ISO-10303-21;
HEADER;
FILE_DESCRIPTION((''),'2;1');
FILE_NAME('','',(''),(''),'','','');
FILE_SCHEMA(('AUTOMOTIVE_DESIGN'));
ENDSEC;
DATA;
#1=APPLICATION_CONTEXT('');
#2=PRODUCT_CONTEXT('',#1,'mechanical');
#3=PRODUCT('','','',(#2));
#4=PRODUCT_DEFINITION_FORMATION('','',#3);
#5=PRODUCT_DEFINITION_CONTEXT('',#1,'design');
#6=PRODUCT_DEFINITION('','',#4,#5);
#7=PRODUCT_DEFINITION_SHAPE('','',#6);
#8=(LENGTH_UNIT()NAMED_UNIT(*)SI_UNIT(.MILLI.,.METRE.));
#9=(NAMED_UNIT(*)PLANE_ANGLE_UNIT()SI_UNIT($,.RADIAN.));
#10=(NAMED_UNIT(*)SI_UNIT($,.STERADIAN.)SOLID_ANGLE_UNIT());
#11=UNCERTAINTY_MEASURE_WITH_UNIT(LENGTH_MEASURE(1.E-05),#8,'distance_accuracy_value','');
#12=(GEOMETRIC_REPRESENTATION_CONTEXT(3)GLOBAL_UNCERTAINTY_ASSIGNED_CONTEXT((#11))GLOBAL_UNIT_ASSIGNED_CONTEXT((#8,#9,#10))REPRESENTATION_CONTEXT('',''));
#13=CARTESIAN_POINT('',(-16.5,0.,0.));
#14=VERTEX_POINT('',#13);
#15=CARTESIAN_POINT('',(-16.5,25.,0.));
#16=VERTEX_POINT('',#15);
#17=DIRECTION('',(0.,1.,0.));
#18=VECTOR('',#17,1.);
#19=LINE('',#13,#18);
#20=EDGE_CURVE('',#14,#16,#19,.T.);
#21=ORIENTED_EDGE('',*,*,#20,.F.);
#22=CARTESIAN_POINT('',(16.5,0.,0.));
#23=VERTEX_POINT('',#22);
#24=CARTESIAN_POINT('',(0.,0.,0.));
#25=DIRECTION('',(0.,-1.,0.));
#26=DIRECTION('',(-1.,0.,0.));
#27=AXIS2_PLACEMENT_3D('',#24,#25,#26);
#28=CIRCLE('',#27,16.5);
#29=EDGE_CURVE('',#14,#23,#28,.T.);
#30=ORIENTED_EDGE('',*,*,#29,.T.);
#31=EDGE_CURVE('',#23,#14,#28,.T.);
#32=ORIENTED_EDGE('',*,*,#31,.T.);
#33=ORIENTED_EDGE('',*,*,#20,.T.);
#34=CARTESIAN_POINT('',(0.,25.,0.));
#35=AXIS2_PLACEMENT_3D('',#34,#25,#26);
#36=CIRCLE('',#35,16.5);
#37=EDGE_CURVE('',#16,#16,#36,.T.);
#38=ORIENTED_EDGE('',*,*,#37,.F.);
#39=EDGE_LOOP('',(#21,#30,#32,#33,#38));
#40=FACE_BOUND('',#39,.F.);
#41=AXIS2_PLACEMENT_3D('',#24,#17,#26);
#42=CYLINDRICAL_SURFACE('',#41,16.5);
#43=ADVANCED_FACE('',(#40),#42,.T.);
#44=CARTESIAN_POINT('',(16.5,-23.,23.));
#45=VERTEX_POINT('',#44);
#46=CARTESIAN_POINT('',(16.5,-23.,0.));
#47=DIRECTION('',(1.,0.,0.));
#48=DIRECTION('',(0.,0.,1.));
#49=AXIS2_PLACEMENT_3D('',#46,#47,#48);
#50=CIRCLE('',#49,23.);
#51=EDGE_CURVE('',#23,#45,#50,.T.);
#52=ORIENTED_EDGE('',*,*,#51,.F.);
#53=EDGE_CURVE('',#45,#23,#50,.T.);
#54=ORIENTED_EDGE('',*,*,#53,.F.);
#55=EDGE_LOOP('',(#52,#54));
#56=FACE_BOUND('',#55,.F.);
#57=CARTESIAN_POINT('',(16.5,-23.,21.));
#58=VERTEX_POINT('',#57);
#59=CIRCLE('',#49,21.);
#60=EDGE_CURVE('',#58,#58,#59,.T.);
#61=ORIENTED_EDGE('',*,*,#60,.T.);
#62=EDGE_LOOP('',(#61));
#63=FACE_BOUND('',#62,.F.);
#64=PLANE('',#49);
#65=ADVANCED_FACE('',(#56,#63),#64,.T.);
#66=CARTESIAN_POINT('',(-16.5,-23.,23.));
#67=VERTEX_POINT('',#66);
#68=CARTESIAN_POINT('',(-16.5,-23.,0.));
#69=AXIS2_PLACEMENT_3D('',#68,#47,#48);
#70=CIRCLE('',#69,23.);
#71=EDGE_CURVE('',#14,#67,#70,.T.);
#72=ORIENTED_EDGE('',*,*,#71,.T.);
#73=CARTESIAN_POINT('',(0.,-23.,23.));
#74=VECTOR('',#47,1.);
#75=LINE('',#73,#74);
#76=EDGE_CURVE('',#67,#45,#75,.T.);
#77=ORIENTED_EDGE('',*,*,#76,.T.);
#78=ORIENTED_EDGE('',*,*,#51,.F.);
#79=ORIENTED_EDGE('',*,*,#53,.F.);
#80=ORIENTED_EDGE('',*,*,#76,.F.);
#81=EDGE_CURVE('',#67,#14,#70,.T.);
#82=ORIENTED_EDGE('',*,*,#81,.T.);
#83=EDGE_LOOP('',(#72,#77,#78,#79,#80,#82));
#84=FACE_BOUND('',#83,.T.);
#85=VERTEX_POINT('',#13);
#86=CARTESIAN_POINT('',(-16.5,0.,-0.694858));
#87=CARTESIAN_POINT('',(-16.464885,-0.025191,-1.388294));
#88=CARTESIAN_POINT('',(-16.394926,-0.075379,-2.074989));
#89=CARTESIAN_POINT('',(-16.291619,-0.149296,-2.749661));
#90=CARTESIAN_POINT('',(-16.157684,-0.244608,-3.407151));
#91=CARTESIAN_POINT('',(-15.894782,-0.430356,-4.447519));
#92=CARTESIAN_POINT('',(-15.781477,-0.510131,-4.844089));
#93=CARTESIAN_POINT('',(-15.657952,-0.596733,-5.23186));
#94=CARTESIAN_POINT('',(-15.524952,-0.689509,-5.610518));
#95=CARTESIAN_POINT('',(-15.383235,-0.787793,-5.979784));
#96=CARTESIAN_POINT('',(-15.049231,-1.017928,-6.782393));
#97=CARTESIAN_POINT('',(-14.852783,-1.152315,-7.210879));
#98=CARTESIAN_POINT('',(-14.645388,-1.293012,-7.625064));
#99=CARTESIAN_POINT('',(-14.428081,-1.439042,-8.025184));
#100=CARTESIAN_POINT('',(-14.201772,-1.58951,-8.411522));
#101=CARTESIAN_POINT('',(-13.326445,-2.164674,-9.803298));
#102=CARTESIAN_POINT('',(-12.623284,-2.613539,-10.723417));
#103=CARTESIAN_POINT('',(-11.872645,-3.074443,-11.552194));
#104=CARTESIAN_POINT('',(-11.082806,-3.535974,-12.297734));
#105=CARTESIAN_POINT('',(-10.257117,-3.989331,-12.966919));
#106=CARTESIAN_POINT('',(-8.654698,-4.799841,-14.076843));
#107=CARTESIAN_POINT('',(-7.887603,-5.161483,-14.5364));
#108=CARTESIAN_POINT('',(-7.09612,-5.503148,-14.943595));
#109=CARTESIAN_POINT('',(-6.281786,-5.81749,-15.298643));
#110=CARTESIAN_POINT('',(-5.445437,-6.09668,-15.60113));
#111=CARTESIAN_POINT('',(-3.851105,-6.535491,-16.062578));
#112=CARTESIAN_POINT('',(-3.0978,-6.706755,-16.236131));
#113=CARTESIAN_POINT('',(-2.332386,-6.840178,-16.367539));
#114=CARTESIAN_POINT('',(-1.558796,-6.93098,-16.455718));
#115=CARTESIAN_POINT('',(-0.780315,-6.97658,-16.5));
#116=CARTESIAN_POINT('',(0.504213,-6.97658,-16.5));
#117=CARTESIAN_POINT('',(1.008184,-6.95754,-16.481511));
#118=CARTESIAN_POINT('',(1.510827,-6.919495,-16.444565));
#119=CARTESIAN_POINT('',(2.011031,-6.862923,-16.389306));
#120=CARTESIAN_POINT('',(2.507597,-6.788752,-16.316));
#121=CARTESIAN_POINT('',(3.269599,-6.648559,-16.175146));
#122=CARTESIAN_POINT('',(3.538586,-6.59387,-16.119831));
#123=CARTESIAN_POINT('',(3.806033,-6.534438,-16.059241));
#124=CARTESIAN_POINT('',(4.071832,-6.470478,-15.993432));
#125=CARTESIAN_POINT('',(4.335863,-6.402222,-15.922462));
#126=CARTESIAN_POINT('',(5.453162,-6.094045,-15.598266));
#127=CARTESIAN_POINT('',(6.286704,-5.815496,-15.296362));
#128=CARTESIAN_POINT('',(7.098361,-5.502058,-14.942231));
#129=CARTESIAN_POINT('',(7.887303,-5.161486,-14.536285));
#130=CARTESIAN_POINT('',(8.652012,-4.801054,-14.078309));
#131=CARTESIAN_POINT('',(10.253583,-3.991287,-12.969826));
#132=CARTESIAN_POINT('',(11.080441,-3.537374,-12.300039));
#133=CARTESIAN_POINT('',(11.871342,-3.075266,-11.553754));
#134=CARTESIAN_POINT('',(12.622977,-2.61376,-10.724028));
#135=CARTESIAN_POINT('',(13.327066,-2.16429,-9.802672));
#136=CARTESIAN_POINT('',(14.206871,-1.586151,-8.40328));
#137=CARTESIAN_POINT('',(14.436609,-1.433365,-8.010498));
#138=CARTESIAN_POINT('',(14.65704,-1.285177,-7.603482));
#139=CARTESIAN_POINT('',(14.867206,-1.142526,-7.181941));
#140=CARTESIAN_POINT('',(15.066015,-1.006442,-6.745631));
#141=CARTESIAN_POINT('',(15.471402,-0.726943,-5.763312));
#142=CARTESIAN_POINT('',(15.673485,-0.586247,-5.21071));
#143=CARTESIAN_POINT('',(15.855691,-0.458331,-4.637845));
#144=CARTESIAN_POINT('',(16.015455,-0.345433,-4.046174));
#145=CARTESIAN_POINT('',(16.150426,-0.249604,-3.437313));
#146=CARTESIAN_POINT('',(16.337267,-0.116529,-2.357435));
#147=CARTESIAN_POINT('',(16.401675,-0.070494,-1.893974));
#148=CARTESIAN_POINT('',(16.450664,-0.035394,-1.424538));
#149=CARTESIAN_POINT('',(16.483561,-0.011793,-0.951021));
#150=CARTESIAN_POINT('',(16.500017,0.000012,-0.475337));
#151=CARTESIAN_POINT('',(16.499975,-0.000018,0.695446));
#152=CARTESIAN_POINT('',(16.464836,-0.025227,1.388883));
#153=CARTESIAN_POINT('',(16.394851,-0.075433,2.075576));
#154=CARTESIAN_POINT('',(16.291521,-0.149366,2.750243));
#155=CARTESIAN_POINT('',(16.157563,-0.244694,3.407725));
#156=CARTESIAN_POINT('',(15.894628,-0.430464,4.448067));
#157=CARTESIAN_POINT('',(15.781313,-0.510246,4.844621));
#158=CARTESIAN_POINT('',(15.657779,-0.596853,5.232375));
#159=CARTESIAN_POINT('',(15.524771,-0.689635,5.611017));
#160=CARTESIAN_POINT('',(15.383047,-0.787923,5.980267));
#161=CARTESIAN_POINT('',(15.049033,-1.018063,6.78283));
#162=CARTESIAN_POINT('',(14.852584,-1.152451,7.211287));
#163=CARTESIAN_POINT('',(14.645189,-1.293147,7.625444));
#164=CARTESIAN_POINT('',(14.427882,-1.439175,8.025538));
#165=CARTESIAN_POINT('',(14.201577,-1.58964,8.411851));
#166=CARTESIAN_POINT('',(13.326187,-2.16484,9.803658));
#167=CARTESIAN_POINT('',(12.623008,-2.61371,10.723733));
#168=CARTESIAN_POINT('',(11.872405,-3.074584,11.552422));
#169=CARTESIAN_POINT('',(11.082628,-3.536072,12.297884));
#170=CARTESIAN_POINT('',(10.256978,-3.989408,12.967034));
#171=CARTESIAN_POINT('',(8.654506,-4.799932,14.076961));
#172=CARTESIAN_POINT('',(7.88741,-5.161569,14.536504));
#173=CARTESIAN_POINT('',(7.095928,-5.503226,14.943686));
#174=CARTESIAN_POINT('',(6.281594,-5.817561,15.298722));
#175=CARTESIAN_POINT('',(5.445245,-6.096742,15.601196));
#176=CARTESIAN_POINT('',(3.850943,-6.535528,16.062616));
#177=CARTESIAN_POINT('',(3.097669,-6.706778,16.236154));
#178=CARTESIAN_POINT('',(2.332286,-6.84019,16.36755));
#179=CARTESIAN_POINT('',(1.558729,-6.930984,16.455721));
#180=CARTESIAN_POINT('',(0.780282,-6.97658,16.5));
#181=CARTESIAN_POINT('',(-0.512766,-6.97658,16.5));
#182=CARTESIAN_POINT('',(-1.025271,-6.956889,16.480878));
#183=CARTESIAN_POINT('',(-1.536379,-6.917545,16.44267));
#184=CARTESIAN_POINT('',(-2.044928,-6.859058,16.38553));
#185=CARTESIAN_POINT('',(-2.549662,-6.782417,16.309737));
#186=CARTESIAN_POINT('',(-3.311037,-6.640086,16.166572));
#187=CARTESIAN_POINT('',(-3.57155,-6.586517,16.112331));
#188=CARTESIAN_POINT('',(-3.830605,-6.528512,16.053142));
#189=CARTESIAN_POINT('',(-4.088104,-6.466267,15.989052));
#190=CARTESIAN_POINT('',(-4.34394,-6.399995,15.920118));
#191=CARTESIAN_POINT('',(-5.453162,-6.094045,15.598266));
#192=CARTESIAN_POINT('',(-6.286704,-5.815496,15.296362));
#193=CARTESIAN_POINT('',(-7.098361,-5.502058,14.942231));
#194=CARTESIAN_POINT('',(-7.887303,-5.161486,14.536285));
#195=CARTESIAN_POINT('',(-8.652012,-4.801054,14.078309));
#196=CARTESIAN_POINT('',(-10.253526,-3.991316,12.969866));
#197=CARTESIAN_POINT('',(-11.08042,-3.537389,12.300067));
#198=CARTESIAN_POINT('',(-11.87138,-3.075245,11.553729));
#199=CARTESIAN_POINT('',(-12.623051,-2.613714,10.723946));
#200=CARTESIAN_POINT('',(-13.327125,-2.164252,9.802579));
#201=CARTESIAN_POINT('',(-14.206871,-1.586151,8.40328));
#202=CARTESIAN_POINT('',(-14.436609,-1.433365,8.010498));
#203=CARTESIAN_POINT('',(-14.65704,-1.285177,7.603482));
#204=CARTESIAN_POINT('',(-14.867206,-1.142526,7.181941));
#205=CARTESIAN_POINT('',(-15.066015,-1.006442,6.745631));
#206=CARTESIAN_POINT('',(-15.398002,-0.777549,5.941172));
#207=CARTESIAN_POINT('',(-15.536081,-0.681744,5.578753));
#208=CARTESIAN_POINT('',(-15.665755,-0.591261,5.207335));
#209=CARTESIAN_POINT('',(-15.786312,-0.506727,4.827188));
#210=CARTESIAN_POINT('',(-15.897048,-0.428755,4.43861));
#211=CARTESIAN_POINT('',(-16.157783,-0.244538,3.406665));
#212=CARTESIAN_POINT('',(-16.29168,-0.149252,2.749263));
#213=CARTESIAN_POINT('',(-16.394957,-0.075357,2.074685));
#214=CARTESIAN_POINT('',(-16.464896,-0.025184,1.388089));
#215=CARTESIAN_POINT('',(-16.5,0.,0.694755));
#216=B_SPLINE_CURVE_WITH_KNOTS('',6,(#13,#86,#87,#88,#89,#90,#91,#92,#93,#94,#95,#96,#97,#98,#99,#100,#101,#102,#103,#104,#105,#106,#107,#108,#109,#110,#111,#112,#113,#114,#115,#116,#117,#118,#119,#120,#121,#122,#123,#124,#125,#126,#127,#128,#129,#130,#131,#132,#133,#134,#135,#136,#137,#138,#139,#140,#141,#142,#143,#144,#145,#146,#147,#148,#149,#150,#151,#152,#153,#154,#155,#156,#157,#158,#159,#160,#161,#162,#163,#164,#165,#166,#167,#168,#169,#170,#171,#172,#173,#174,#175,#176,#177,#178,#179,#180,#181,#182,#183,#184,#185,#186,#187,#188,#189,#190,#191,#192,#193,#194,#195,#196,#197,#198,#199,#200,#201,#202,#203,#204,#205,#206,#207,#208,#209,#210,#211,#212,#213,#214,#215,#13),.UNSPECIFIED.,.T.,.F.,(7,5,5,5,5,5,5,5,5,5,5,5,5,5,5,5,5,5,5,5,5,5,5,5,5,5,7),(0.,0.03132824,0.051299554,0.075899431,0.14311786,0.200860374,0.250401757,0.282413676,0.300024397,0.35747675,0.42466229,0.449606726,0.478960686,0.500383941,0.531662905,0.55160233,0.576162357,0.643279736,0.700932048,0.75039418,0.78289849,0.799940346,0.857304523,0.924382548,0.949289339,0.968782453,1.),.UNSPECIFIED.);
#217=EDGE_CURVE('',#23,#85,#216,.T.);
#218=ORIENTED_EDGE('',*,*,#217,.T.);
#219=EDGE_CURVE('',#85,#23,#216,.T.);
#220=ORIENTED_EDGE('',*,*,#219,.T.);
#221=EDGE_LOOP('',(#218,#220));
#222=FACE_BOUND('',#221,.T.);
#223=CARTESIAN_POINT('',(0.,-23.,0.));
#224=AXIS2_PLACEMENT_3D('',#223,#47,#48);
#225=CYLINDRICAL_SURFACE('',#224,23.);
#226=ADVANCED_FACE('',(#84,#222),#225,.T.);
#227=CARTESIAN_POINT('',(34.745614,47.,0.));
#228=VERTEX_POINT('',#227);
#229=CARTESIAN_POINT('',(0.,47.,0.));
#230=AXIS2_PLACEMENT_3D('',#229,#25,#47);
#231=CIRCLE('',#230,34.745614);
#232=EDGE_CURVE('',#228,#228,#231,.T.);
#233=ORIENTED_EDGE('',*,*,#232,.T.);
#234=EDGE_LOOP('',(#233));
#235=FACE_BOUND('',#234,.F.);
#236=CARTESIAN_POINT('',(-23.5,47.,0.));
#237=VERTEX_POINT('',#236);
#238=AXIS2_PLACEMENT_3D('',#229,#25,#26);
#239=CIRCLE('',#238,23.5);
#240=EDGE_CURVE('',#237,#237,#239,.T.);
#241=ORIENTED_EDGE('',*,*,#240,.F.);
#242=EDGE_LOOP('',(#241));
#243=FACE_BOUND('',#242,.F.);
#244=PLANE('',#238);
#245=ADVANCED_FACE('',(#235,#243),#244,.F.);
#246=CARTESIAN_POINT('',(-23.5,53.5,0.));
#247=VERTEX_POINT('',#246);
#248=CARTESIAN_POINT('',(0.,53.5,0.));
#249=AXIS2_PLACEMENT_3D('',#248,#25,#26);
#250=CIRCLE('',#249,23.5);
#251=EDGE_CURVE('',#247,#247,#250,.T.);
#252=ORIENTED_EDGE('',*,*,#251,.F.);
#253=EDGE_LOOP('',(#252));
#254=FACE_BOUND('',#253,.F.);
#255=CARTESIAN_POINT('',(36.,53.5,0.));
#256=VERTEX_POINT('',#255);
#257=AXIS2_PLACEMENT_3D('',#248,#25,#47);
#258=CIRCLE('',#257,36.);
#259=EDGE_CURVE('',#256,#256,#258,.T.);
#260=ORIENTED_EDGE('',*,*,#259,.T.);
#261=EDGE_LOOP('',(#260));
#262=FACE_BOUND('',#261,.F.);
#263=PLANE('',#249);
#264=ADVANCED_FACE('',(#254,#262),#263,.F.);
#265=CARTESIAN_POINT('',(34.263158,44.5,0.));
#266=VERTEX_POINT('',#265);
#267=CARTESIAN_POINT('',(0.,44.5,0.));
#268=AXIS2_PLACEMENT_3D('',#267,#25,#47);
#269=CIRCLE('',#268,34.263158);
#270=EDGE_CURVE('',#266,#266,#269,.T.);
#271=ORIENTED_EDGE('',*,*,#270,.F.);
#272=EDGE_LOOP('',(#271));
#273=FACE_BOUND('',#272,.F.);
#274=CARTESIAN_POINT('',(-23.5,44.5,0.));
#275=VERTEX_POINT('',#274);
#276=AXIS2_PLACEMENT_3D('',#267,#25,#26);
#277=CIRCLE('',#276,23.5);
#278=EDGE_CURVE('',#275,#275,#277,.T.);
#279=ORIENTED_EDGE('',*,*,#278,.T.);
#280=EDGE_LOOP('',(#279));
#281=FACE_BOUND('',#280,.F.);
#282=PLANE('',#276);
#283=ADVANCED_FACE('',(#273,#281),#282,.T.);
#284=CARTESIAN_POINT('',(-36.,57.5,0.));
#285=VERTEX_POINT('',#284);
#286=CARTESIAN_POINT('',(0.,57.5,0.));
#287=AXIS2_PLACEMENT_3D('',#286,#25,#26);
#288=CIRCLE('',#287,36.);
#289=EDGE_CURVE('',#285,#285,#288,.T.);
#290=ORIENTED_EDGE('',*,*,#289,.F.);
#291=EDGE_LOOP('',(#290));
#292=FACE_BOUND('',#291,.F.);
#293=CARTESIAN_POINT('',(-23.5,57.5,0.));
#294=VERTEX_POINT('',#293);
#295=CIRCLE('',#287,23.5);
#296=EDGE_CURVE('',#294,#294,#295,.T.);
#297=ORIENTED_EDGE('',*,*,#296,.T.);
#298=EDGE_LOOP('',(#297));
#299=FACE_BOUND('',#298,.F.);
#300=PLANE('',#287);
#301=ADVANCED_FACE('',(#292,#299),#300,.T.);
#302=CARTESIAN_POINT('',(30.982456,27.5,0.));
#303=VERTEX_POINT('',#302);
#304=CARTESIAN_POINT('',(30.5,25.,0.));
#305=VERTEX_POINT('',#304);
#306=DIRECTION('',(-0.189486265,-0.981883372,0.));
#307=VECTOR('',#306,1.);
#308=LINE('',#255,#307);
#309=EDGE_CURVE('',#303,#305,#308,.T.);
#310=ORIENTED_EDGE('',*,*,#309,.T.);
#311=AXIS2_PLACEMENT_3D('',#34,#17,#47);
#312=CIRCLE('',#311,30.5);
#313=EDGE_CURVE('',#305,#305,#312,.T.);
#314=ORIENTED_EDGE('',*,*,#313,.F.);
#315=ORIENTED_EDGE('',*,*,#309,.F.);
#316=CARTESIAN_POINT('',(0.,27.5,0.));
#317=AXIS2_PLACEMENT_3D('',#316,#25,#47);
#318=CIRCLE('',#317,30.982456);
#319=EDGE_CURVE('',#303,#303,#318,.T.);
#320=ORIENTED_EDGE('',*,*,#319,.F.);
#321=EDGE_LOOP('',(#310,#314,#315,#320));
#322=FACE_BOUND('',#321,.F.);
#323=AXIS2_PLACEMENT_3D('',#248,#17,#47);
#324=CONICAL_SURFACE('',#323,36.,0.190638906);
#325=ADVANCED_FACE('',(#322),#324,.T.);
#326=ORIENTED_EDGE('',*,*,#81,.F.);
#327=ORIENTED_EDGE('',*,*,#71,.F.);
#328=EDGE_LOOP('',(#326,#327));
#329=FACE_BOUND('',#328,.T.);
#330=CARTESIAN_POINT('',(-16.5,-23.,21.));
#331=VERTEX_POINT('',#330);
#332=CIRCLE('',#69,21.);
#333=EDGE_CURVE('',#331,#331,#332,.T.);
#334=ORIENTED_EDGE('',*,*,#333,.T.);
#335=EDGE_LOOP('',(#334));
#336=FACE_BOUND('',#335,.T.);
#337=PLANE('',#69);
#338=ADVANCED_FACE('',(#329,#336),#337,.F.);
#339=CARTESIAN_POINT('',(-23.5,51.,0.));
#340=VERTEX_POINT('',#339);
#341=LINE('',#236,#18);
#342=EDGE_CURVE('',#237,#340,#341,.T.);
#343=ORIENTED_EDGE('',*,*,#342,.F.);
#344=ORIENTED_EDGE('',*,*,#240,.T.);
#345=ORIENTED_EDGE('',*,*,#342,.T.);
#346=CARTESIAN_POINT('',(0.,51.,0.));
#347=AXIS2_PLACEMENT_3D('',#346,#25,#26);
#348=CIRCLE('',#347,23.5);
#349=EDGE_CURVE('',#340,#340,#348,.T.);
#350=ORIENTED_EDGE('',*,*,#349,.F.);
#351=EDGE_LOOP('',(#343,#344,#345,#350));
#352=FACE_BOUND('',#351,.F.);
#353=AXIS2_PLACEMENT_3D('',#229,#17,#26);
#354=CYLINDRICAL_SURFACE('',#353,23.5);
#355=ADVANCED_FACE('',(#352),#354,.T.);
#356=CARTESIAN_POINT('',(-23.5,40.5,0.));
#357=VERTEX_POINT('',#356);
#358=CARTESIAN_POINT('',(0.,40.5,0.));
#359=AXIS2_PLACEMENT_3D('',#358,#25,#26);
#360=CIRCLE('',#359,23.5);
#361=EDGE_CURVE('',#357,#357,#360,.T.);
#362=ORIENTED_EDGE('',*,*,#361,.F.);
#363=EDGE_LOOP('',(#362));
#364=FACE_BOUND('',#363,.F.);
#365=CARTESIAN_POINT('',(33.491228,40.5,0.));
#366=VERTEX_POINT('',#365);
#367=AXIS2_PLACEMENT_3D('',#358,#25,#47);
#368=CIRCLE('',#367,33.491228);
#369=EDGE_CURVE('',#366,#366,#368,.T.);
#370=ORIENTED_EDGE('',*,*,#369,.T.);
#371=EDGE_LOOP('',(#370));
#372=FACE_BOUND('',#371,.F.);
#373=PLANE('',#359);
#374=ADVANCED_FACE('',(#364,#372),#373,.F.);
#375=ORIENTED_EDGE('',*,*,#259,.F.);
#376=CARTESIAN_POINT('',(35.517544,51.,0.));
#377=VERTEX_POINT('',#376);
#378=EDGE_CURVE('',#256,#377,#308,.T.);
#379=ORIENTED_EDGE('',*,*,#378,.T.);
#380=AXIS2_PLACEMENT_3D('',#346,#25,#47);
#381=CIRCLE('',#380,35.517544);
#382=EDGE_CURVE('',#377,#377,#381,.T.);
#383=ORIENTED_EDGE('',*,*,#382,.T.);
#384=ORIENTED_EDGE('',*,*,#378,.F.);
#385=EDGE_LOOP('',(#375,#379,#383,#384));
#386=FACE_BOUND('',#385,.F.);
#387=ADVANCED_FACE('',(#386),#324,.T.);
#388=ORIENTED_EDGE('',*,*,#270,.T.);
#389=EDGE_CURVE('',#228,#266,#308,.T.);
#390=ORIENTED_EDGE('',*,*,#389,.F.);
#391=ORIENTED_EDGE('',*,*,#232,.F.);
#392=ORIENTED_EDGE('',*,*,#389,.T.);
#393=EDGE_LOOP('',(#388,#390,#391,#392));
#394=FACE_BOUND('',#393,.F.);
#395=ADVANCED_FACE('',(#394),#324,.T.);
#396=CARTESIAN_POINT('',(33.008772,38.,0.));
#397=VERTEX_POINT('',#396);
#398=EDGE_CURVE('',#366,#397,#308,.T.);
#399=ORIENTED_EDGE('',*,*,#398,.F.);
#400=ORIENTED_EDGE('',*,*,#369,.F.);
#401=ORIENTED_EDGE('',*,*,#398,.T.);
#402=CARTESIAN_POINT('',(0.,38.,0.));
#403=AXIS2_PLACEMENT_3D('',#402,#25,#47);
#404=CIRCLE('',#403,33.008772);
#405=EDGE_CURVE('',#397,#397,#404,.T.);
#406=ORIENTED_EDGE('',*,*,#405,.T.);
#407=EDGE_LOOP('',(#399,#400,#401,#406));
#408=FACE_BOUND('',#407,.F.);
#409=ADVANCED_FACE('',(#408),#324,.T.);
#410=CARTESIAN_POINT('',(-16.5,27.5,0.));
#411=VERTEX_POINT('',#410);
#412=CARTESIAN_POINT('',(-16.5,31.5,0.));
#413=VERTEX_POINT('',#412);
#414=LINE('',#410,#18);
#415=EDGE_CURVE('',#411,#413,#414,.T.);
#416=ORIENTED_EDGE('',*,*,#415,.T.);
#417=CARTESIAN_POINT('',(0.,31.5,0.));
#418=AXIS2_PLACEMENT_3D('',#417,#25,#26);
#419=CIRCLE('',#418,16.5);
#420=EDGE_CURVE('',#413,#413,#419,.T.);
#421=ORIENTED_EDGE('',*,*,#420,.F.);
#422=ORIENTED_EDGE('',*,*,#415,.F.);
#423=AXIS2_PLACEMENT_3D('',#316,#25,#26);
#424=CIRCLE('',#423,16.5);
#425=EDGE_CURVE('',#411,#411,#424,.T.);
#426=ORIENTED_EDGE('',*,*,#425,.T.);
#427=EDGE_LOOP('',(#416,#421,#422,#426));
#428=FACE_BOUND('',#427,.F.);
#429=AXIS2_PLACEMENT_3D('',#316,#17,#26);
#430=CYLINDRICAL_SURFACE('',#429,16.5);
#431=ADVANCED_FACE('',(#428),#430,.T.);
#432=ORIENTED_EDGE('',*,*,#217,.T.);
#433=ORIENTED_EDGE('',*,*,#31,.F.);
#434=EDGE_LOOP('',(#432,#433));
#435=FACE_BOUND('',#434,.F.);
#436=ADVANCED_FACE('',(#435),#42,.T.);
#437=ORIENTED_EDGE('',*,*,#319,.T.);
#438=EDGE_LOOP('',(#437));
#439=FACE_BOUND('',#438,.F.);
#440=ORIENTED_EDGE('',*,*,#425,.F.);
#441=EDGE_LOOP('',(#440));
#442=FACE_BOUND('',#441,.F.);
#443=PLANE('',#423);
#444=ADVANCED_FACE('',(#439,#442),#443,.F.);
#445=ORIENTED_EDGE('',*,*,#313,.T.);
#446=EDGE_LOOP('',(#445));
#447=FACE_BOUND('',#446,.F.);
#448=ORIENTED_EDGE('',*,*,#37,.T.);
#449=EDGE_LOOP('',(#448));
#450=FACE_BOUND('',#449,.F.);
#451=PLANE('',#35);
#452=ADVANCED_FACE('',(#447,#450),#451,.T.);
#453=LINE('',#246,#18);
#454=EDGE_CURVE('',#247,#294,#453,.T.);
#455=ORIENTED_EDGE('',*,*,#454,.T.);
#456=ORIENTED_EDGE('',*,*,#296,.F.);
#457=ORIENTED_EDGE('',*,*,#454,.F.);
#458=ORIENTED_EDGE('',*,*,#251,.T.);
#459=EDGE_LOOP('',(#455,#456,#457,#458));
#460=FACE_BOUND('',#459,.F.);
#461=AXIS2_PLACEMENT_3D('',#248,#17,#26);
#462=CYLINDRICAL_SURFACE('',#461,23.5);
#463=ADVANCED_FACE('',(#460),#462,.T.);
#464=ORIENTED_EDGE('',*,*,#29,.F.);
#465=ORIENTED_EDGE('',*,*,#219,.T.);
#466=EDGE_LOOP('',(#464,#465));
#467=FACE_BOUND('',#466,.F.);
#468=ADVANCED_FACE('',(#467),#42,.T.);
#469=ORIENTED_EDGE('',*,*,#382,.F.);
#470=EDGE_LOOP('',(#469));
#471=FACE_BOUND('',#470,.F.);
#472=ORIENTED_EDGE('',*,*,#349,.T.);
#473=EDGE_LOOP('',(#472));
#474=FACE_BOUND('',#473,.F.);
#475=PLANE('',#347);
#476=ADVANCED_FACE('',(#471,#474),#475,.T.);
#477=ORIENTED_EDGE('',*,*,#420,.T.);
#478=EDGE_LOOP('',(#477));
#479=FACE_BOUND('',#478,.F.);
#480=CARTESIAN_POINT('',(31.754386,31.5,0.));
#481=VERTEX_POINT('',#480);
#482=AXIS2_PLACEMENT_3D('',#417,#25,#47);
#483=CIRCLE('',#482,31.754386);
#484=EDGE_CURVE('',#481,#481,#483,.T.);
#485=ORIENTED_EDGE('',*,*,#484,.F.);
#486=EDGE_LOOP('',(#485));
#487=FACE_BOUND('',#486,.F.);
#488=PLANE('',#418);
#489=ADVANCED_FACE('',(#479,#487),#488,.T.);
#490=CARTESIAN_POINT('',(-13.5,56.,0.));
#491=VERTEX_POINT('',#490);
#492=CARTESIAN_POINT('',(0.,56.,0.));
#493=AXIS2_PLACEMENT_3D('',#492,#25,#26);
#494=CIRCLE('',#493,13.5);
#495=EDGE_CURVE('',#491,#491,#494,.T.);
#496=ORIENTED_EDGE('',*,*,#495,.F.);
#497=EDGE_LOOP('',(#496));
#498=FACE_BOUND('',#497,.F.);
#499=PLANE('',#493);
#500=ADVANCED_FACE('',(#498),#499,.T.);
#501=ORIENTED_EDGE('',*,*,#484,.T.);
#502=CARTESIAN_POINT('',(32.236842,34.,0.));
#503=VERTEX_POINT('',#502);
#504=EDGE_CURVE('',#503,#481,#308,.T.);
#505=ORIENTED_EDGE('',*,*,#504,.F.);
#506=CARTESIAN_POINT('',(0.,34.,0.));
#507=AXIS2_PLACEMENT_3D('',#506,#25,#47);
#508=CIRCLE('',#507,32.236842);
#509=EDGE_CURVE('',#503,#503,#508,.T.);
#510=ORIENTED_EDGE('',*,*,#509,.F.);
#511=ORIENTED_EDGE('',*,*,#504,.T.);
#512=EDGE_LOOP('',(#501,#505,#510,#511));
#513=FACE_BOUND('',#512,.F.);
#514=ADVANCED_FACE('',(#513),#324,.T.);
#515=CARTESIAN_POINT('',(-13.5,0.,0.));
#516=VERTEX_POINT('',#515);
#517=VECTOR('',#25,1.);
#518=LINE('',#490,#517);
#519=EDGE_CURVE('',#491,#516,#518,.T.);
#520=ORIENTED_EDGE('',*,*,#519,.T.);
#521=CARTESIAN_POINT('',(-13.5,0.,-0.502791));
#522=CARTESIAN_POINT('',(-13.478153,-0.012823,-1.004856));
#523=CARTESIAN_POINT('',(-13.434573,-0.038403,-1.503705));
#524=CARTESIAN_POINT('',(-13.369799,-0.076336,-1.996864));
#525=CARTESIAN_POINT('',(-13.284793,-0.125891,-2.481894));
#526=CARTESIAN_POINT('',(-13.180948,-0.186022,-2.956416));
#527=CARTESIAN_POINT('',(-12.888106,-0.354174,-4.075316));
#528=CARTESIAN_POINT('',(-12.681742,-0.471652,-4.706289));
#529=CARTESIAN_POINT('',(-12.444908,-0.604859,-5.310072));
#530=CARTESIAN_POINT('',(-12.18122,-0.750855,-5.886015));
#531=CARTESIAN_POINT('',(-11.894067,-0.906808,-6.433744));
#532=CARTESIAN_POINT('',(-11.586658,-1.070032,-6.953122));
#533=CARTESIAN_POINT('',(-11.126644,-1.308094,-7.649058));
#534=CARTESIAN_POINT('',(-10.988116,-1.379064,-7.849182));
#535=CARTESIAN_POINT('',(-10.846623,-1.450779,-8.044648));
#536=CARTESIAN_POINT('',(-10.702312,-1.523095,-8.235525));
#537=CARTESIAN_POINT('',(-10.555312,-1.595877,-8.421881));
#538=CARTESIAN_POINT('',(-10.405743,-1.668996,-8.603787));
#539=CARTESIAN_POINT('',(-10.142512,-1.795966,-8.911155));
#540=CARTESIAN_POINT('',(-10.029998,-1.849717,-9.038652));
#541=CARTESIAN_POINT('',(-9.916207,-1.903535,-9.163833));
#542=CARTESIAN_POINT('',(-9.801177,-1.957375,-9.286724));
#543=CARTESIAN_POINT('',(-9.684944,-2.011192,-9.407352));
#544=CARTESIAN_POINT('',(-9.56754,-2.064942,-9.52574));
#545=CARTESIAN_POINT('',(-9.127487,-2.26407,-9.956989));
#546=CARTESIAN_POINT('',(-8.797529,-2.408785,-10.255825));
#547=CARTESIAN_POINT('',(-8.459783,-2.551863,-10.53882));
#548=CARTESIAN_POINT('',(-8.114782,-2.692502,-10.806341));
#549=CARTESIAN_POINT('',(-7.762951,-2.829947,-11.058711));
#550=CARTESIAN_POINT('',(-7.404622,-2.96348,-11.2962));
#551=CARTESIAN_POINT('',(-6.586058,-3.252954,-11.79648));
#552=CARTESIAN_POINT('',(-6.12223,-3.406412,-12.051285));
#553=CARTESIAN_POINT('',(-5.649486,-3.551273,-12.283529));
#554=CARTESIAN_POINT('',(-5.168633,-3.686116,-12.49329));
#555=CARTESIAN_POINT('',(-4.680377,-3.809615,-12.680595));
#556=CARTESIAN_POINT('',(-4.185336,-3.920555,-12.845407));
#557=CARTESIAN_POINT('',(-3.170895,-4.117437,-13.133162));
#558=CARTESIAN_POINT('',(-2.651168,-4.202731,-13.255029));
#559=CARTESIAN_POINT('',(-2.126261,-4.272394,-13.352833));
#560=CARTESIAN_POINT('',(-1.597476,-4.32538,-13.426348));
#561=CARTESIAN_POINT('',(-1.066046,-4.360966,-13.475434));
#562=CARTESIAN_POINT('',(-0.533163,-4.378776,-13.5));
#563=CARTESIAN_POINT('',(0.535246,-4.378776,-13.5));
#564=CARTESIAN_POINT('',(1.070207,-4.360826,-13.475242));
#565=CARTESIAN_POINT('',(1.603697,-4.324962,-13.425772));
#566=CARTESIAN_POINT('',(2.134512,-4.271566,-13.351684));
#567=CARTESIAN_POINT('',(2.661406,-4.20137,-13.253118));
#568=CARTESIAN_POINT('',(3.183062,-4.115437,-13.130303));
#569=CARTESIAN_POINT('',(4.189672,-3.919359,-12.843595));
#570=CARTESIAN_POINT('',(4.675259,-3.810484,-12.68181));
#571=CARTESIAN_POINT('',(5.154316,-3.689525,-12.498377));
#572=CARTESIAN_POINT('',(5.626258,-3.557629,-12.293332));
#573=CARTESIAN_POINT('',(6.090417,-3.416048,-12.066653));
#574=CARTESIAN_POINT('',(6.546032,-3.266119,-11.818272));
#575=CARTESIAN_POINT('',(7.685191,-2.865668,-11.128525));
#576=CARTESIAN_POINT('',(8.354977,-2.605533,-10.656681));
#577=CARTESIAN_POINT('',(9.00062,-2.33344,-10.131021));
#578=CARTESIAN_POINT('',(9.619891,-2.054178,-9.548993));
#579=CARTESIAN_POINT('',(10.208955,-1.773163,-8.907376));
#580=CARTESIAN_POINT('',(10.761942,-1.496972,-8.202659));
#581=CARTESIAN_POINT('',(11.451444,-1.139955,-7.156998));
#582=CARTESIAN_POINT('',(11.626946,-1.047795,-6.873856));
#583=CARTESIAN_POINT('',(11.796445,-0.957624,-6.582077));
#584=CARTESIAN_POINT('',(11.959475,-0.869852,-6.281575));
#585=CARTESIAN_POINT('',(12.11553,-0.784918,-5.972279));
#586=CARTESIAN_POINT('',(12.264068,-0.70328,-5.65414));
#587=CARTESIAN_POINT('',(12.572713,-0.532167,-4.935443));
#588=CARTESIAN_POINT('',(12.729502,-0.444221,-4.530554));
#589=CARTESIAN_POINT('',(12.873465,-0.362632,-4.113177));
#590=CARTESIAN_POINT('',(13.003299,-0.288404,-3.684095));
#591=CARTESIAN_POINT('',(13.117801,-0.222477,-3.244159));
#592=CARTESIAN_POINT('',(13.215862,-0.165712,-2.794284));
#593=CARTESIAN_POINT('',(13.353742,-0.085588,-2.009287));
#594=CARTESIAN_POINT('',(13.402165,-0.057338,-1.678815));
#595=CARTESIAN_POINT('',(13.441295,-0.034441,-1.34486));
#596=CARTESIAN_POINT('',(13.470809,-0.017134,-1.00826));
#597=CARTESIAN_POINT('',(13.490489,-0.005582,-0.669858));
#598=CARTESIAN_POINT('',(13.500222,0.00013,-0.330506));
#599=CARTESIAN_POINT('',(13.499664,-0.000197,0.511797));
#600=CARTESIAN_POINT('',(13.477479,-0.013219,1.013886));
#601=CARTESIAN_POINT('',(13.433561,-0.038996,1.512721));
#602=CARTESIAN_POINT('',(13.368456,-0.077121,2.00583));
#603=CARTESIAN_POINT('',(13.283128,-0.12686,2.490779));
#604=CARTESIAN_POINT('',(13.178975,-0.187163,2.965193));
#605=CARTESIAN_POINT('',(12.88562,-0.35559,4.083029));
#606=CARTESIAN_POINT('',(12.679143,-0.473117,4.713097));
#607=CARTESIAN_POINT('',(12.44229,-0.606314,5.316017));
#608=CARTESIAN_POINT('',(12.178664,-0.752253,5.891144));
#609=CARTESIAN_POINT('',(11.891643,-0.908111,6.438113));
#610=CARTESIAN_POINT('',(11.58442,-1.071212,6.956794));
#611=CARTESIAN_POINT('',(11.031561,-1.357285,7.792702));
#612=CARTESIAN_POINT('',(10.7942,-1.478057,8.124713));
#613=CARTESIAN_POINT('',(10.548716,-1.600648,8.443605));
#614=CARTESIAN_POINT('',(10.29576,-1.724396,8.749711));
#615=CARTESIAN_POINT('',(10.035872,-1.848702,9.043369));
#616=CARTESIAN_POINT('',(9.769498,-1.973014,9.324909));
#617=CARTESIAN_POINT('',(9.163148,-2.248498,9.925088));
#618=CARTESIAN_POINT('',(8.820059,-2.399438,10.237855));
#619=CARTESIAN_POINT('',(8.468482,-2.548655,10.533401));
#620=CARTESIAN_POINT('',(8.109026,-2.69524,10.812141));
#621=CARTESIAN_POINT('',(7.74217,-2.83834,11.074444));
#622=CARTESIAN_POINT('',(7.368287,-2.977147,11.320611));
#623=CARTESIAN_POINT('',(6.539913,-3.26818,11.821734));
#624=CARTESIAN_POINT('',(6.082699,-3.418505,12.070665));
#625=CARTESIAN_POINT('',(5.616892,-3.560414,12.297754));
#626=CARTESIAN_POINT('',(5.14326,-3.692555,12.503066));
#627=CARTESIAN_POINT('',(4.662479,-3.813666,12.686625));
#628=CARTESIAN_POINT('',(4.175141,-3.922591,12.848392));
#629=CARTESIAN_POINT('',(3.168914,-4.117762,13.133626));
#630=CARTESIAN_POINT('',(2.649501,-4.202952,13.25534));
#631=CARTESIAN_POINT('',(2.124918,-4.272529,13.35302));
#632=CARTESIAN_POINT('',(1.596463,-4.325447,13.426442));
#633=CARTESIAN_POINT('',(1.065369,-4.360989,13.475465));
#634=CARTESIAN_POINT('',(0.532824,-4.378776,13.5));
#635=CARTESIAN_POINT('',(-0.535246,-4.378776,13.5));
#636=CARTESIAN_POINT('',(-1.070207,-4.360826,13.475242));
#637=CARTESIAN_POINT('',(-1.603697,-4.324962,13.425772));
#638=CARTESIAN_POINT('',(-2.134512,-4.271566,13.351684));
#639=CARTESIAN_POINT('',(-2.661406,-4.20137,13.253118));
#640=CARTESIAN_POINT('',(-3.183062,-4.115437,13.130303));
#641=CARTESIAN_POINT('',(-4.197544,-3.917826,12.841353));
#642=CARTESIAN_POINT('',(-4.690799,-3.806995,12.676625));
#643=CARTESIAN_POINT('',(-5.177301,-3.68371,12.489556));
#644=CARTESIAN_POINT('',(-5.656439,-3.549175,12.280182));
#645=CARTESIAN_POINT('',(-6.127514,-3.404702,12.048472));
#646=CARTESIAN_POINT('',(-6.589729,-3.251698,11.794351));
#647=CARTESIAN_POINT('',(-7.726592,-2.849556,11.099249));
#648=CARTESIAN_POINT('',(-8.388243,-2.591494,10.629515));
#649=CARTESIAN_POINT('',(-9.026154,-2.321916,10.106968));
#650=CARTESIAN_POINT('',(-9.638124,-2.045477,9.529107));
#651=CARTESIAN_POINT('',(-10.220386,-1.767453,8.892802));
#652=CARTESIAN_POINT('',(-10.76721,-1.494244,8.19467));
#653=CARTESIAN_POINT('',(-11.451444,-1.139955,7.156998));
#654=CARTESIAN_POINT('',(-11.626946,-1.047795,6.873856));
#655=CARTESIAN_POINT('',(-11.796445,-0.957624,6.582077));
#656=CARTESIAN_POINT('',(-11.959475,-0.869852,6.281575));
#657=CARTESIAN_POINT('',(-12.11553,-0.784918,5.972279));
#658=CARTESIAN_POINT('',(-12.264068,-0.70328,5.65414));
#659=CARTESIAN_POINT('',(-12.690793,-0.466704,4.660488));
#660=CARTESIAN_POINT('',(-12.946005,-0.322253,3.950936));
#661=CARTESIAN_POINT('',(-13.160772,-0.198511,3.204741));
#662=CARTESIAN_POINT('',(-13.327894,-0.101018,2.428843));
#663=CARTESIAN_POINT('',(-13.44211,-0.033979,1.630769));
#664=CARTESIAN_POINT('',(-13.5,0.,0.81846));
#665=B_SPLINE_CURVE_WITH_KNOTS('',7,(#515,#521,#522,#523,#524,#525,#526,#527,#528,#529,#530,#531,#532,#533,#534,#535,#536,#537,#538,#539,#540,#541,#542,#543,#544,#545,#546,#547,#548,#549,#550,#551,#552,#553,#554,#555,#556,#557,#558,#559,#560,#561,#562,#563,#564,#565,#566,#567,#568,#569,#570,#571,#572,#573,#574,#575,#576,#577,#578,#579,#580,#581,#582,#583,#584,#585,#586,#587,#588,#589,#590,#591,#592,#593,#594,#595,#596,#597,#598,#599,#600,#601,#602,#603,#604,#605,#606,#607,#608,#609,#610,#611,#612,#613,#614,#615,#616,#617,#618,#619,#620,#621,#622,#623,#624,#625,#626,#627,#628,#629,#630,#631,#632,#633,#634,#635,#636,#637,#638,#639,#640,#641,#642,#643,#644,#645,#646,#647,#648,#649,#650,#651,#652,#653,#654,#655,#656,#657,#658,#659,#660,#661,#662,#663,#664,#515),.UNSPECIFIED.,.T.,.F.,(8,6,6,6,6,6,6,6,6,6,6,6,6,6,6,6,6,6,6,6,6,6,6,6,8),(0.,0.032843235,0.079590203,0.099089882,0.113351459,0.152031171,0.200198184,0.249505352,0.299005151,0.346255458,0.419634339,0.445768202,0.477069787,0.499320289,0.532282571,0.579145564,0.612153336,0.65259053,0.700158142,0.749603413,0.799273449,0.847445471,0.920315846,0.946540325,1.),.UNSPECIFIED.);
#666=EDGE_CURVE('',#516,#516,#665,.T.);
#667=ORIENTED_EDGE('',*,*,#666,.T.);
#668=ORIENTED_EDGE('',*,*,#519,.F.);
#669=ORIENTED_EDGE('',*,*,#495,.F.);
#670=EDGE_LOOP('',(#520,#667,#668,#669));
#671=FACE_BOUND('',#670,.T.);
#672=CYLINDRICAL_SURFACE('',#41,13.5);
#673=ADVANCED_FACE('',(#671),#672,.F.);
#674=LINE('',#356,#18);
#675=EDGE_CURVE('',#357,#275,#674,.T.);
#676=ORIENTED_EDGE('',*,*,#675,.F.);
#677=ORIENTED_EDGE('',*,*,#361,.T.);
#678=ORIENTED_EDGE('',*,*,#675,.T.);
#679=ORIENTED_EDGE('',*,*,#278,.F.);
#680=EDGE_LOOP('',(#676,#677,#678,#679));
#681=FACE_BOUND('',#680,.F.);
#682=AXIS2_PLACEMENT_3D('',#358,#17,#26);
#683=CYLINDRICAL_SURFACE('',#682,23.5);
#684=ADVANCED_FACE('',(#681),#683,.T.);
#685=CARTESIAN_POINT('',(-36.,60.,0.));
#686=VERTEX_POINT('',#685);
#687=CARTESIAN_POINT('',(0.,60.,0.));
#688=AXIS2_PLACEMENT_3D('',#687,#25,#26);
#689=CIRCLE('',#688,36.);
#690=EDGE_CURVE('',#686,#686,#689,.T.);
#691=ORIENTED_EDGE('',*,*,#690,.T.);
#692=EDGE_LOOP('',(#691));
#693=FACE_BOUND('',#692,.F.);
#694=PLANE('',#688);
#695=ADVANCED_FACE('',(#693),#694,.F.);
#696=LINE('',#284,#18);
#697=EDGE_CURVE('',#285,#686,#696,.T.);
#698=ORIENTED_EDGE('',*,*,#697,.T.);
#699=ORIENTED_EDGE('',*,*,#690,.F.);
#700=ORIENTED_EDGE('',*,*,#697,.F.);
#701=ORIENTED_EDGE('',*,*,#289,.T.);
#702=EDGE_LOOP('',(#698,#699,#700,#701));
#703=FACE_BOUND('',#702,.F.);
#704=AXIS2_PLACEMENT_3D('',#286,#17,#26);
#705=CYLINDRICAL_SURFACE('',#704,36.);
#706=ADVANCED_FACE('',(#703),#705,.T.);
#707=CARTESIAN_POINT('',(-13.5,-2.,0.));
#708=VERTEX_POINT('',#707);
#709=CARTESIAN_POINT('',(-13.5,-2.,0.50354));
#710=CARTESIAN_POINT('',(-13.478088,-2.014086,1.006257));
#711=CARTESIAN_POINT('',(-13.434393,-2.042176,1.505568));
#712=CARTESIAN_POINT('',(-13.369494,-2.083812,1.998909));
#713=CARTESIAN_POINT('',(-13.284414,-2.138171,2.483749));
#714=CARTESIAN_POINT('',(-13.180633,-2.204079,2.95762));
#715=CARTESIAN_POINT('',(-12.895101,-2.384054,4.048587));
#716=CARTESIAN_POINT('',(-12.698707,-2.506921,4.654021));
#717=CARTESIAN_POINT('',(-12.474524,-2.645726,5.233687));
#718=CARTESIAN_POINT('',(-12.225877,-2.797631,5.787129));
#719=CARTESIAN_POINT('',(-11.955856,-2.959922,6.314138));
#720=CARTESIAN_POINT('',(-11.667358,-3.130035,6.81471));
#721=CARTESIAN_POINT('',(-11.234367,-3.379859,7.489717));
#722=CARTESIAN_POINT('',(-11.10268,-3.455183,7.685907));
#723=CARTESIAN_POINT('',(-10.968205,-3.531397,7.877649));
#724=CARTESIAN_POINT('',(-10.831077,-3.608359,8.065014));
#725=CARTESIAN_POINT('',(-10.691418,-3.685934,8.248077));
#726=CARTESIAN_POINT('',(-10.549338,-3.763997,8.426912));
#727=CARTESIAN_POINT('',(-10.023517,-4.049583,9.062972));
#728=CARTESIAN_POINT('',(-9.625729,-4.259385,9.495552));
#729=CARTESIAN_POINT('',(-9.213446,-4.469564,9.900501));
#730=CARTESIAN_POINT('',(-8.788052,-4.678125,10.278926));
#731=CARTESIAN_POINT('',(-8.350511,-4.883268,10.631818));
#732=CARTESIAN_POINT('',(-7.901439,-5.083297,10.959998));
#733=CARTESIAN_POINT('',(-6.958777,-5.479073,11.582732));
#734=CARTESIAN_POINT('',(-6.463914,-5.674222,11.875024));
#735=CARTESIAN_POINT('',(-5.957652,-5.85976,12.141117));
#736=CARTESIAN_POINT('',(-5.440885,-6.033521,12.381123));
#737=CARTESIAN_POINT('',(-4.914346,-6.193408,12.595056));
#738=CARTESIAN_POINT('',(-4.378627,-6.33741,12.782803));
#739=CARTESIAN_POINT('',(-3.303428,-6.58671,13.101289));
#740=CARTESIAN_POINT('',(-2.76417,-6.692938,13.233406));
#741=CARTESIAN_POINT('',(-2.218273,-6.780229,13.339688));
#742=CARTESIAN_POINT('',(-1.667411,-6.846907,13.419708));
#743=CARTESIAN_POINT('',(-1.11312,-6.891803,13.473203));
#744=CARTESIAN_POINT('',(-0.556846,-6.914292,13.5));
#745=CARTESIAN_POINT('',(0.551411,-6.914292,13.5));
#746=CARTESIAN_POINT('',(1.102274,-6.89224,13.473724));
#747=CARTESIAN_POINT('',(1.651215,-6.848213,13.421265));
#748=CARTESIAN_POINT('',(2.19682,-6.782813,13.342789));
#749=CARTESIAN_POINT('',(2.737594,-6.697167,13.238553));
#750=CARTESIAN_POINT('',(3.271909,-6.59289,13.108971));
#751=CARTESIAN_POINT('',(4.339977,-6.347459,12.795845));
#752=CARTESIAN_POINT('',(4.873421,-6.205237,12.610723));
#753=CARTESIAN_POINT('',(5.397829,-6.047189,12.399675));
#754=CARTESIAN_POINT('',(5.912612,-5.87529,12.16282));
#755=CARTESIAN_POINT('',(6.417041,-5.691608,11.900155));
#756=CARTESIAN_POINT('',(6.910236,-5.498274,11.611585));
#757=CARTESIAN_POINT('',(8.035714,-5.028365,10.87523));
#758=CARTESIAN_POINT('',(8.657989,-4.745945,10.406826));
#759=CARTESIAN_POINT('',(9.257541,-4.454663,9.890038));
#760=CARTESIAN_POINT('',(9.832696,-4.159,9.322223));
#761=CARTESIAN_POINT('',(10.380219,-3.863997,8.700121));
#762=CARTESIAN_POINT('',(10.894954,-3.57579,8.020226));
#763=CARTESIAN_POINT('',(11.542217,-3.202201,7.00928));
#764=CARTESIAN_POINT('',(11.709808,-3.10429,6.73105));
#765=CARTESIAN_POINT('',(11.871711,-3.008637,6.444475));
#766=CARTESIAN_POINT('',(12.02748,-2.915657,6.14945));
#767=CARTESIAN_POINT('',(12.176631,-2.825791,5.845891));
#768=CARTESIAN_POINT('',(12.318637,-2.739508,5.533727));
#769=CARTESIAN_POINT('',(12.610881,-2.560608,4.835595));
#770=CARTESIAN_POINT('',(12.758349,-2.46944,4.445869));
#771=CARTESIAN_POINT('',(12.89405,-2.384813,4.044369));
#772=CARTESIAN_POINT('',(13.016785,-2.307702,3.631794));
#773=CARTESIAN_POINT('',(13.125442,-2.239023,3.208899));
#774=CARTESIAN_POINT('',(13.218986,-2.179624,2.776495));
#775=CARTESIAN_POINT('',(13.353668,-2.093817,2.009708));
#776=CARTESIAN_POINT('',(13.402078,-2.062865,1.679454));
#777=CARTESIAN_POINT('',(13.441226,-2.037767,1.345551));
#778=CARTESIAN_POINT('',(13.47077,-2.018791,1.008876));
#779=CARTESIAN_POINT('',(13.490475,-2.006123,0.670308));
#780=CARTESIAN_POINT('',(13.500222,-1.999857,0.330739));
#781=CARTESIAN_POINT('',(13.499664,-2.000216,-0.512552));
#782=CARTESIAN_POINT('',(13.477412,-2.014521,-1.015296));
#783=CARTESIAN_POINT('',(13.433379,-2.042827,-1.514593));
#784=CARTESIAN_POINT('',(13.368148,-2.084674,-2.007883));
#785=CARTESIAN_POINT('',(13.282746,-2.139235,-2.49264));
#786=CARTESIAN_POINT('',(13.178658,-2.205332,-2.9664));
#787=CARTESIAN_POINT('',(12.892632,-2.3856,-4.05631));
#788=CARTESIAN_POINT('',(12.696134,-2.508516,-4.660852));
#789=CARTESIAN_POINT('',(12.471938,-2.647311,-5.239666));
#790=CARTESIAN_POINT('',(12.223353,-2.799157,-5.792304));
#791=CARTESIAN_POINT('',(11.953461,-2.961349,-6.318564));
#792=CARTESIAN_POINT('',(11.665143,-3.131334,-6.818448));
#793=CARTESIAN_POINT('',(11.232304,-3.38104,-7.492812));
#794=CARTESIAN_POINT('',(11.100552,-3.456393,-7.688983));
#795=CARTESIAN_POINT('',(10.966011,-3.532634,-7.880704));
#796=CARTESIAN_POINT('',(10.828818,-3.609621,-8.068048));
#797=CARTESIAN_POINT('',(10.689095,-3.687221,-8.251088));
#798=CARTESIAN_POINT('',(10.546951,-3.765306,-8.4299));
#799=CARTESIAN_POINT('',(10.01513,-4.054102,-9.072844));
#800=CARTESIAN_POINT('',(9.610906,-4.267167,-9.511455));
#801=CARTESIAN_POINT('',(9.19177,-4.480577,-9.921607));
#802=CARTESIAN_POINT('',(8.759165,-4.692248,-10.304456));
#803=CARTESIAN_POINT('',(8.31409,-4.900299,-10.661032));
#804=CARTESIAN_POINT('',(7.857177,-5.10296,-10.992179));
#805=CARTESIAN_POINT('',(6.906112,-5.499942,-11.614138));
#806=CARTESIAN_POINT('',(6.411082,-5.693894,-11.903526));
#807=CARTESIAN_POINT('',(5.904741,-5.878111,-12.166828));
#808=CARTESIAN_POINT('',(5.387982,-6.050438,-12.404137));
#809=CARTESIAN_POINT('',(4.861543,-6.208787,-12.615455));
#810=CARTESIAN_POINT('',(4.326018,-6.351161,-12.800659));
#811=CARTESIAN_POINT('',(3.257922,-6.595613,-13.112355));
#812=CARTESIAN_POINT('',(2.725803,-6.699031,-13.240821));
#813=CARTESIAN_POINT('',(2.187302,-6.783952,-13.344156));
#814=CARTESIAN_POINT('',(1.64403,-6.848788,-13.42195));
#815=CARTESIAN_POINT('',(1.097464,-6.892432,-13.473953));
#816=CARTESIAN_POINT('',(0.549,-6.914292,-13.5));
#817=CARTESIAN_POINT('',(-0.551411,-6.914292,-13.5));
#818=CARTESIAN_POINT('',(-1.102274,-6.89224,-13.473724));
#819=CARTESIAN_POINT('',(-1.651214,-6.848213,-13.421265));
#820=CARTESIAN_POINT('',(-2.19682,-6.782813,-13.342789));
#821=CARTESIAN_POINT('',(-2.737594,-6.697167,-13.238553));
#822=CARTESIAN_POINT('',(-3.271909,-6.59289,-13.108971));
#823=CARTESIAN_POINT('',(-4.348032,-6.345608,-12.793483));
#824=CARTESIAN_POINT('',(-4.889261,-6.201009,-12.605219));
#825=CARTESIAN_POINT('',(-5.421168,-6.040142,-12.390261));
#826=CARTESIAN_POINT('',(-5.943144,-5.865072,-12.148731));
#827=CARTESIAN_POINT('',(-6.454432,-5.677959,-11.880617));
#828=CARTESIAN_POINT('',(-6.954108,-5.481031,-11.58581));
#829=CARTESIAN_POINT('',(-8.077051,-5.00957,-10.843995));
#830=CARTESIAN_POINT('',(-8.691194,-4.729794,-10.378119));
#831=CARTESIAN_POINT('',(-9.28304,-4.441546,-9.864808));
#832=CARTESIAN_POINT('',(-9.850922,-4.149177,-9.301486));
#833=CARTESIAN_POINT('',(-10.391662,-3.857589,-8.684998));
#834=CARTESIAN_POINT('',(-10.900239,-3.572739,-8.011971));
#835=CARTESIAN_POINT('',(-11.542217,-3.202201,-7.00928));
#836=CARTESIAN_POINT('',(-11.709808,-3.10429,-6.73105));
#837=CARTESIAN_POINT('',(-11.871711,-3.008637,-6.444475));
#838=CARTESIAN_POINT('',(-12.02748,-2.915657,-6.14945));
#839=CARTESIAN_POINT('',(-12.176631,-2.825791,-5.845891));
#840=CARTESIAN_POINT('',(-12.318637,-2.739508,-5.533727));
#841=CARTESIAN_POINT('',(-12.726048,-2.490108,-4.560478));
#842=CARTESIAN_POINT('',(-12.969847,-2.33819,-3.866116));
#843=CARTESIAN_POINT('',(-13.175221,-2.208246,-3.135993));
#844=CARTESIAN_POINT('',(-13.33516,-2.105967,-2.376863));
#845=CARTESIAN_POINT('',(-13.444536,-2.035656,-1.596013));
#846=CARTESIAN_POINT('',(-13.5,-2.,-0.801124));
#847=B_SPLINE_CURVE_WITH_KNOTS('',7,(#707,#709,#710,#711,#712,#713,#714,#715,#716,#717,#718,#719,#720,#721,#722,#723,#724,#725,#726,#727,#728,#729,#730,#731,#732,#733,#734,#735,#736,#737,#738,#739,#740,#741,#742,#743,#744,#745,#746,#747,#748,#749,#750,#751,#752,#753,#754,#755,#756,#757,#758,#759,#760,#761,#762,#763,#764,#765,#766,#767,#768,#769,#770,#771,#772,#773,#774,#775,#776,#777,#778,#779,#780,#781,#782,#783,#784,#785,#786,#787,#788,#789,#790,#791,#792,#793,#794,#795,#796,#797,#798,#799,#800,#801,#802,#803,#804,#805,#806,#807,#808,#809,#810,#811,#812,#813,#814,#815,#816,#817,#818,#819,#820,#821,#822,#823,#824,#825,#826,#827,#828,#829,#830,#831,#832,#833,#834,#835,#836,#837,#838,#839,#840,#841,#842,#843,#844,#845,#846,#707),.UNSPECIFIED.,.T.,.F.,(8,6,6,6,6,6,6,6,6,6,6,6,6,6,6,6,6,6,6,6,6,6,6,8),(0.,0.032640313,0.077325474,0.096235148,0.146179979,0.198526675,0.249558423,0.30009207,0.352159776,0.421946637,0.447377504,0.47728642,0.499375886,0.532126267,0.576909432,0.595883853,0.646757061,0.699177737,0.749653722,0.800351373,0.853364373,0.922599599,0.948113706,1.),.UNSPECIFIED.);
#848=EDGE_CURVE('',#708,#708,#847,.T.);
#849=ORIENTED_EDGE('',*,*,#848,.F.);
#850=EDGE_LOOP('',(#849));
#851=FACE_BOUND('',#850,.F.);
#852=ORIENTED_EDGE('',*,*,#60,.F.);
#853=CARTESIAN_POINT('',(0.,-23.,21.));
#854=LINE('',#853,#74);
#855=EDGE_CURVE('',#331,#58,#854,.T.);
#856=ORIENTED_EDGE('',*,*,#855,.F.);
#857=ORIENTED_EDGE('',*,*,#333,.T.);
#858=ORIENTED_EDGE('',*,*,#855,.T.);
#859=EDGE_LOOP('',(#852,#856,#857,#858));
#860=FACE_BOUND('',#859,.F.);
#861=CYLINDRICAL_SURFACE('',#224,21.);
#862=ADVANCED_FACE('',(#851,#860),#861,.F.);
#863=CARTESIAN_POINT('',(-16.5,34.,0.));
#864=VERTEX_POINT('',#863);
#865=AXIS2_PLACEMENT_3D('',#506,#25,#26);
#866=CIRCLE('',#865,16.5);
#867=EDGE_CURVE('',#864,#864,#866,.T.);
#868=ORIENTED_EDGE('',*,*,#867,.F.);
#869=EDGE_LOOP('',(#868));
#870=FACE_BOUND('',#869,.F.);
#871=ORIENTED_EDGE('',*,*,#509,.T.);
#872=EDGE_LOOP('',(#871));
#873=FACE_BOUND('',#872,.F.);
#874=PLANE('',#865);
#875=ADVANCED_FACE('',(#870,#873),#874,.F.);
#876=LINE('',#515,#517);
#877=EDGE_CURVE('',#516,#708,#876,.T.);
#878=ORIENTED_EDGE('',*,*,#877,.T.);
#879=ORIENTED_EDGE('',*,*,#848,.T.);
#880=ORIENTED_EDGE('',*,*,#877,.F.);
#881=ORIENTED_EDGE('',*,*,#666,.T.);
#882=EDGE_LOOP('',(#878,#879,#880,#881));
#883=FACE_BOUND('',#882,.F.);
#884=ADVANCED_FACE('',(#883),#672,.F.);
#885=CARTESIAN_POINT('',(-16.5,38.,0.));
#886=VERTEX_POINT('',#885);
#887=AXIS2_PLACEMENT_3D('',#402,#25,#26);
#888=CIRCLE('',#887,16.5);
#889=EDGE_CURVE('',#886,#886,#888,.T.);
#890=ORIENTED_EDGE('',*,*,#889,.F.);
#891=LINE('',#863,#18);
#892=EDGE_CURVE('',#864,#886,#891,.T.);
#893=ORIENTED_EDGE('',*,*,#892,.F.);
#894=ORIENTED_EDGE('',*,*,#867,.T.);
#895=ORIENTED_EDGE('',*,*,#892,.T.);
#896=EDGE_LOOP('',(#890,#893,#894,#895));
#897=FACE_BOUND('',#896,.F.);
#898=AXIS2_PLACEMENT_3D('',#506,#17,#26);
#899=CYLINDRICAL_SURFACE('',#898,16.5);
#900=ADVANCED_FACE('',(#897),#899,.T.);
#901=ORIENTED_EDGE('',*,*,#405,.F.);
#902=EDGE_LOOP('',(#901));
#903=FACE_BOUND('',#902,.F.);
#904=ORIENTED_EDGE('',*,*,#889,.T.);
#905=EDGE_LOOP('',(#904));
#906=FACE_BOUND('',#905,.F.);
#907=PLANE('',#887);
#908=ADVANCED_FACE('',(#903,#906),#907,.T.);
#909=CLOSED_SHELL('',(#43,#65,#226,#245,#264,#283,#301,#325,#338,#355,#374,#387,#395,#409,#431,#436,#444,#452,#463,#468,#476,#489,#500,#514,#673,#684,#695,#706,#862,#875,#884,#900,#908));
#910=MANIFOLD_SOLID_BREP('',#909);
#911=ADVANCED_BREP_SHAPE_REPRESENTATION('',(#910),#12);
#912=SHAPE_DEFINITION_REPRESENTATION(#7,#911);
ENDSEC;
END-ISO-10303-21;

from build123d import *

# Parameters (mm, degrees)
ESQUISSE1_W             = 33
ESQUISSE1_H             = 2
BOSS_EXTRU_1_REACH      = 80.689
ESQUISSE5_R             = 16.5
ESQUISSE5_R_2           = 13.5
ENL_V_MAT_EXTRU_1_REACH = 80.689
ESQUISSE6_R             = 13.5


with BuildPart() as part:
    # Esquisse1 → Révolution1 (revolve)
    with BuildSketch(Plane.XY, mode=Mode.PRIVATE) as r_volution1_sk:
        with Locations((0, -1)):
            Rectangle(ESQUISSE1_W, ESQUISSE1_H)
    revolve(r_volution1_sk.sketch.rotate(Axis((0, -23, 0), (1, 0, 0)), 90), axis=Axis((0, -23, 0), (1, 0, 0)))

    # Esquisse5 → Boss.-Extru.1 (add, up to next)
    with BuildSketch(Plane.XZ, mode=Mode.PRIVATE) as boss_extru_1_sk1:
        with Locations(Location((0, 0, 0), (0, 0, 180))):
            Circle(ESQUISSE5_R)
        with Locations(Location((0, 0, 0), (0, 0, 180))):
            Circle(ESQUISSE5_R_2, mode=Mode.SUBTRACT)
    boss_extru_1_tool1 = extrude(boss_extru_1_sk1.sketch, amount=BOSS_EXTRU_1_REACH, mode=Mode.PRIVATE) - part.part


with BuildPart() as body_2:
    # Esquisse2 → Révolution2 (revolve)
    with BuildSketch(Plane.XY):
        Polygon((-16.5, 0), (-16.5, 25), (-36, 25), (-36, 27.5), (-16.5, 27.5), (-16.5, 31.5), (-36, 31.5), (-36, 34), (-16.5, 34), (-16.5, 38), (-36, 38), (-36, 40.5), (-23.5, 40.5), (-23.5, 44.5), (-36, 44.5), (-36, 47), (-23.5, 47), (-23.5, 51), (-36, 51), (-36, 53.5), (-23.5, 53.5), (-23.5, 57.5), (-36, 57.5), (-36, 60), (0, 60), (0, 56), (-13.5, 56), (-13.5, 0), align=None)
    revolve(axis=Axis((0, 56, 0), (0, -1, 0)))

    # Esquisse4 → Enlèvement de matière-Révolution1 (revolve, cut)
    with BuildSketch(Plane.XY, mode=Mode.PRIVATE) as enl_vement_de_mati_re_r_volution1_sk:
        Polygon((-36, 60), (-36, 53.5), (-30.5, 25), (-37, 25), (-37, 60), align=None)
    revolve(enl_vement_de_mati_re_r_volution1_sk.sketch.rotate(Axis((0, 0, 0), (0, 1, 0)), 180), axis=Axis((0, 0, 0), (0, 1, 0)), mode=Mode.SUBTRACT)


with BuildPart() as part_1:
    add(part.part)

    add(body_2.part)  # Boss.-Extru.1 merges body 2
    add(boss_extru_1_tool1.solids().sort_by_distance((16.03331, 0, 0))[0])
    add(boss_extru_1_tool1.solids().sort_by_distance((16.03331, 0, 0))[1])

    # Esquisse6 → Enlèv. mat.-Extru.1 (cut, up to next)
    with BuildSketch(Plane(origin=(0, 0, 0), x_dir=(1, 0, 0), z_dir=(0, 1, 0)), mode=Mode.PRIVATE) as enl_v_mat_extru_1_sk1:
        with Locations(Location((0, 0, 0), (0, 0, 180))):
            Circle(ESQUISSE6_R)
    enl_v_mat_extru_1_tool1 = extrude(enl_v_mat_extru_1_sk1.sketch, amount=-ENL_V_MAT_EXTRU_1_REACH, mode=Mode.PRIVATE) & part_1.part
    add(enl_v_mat_extru_1_tool1.solids().sort_by_distance((0, 0, 0))[0], mode=Mode.SUBTRACT)


solid = part_1.part
